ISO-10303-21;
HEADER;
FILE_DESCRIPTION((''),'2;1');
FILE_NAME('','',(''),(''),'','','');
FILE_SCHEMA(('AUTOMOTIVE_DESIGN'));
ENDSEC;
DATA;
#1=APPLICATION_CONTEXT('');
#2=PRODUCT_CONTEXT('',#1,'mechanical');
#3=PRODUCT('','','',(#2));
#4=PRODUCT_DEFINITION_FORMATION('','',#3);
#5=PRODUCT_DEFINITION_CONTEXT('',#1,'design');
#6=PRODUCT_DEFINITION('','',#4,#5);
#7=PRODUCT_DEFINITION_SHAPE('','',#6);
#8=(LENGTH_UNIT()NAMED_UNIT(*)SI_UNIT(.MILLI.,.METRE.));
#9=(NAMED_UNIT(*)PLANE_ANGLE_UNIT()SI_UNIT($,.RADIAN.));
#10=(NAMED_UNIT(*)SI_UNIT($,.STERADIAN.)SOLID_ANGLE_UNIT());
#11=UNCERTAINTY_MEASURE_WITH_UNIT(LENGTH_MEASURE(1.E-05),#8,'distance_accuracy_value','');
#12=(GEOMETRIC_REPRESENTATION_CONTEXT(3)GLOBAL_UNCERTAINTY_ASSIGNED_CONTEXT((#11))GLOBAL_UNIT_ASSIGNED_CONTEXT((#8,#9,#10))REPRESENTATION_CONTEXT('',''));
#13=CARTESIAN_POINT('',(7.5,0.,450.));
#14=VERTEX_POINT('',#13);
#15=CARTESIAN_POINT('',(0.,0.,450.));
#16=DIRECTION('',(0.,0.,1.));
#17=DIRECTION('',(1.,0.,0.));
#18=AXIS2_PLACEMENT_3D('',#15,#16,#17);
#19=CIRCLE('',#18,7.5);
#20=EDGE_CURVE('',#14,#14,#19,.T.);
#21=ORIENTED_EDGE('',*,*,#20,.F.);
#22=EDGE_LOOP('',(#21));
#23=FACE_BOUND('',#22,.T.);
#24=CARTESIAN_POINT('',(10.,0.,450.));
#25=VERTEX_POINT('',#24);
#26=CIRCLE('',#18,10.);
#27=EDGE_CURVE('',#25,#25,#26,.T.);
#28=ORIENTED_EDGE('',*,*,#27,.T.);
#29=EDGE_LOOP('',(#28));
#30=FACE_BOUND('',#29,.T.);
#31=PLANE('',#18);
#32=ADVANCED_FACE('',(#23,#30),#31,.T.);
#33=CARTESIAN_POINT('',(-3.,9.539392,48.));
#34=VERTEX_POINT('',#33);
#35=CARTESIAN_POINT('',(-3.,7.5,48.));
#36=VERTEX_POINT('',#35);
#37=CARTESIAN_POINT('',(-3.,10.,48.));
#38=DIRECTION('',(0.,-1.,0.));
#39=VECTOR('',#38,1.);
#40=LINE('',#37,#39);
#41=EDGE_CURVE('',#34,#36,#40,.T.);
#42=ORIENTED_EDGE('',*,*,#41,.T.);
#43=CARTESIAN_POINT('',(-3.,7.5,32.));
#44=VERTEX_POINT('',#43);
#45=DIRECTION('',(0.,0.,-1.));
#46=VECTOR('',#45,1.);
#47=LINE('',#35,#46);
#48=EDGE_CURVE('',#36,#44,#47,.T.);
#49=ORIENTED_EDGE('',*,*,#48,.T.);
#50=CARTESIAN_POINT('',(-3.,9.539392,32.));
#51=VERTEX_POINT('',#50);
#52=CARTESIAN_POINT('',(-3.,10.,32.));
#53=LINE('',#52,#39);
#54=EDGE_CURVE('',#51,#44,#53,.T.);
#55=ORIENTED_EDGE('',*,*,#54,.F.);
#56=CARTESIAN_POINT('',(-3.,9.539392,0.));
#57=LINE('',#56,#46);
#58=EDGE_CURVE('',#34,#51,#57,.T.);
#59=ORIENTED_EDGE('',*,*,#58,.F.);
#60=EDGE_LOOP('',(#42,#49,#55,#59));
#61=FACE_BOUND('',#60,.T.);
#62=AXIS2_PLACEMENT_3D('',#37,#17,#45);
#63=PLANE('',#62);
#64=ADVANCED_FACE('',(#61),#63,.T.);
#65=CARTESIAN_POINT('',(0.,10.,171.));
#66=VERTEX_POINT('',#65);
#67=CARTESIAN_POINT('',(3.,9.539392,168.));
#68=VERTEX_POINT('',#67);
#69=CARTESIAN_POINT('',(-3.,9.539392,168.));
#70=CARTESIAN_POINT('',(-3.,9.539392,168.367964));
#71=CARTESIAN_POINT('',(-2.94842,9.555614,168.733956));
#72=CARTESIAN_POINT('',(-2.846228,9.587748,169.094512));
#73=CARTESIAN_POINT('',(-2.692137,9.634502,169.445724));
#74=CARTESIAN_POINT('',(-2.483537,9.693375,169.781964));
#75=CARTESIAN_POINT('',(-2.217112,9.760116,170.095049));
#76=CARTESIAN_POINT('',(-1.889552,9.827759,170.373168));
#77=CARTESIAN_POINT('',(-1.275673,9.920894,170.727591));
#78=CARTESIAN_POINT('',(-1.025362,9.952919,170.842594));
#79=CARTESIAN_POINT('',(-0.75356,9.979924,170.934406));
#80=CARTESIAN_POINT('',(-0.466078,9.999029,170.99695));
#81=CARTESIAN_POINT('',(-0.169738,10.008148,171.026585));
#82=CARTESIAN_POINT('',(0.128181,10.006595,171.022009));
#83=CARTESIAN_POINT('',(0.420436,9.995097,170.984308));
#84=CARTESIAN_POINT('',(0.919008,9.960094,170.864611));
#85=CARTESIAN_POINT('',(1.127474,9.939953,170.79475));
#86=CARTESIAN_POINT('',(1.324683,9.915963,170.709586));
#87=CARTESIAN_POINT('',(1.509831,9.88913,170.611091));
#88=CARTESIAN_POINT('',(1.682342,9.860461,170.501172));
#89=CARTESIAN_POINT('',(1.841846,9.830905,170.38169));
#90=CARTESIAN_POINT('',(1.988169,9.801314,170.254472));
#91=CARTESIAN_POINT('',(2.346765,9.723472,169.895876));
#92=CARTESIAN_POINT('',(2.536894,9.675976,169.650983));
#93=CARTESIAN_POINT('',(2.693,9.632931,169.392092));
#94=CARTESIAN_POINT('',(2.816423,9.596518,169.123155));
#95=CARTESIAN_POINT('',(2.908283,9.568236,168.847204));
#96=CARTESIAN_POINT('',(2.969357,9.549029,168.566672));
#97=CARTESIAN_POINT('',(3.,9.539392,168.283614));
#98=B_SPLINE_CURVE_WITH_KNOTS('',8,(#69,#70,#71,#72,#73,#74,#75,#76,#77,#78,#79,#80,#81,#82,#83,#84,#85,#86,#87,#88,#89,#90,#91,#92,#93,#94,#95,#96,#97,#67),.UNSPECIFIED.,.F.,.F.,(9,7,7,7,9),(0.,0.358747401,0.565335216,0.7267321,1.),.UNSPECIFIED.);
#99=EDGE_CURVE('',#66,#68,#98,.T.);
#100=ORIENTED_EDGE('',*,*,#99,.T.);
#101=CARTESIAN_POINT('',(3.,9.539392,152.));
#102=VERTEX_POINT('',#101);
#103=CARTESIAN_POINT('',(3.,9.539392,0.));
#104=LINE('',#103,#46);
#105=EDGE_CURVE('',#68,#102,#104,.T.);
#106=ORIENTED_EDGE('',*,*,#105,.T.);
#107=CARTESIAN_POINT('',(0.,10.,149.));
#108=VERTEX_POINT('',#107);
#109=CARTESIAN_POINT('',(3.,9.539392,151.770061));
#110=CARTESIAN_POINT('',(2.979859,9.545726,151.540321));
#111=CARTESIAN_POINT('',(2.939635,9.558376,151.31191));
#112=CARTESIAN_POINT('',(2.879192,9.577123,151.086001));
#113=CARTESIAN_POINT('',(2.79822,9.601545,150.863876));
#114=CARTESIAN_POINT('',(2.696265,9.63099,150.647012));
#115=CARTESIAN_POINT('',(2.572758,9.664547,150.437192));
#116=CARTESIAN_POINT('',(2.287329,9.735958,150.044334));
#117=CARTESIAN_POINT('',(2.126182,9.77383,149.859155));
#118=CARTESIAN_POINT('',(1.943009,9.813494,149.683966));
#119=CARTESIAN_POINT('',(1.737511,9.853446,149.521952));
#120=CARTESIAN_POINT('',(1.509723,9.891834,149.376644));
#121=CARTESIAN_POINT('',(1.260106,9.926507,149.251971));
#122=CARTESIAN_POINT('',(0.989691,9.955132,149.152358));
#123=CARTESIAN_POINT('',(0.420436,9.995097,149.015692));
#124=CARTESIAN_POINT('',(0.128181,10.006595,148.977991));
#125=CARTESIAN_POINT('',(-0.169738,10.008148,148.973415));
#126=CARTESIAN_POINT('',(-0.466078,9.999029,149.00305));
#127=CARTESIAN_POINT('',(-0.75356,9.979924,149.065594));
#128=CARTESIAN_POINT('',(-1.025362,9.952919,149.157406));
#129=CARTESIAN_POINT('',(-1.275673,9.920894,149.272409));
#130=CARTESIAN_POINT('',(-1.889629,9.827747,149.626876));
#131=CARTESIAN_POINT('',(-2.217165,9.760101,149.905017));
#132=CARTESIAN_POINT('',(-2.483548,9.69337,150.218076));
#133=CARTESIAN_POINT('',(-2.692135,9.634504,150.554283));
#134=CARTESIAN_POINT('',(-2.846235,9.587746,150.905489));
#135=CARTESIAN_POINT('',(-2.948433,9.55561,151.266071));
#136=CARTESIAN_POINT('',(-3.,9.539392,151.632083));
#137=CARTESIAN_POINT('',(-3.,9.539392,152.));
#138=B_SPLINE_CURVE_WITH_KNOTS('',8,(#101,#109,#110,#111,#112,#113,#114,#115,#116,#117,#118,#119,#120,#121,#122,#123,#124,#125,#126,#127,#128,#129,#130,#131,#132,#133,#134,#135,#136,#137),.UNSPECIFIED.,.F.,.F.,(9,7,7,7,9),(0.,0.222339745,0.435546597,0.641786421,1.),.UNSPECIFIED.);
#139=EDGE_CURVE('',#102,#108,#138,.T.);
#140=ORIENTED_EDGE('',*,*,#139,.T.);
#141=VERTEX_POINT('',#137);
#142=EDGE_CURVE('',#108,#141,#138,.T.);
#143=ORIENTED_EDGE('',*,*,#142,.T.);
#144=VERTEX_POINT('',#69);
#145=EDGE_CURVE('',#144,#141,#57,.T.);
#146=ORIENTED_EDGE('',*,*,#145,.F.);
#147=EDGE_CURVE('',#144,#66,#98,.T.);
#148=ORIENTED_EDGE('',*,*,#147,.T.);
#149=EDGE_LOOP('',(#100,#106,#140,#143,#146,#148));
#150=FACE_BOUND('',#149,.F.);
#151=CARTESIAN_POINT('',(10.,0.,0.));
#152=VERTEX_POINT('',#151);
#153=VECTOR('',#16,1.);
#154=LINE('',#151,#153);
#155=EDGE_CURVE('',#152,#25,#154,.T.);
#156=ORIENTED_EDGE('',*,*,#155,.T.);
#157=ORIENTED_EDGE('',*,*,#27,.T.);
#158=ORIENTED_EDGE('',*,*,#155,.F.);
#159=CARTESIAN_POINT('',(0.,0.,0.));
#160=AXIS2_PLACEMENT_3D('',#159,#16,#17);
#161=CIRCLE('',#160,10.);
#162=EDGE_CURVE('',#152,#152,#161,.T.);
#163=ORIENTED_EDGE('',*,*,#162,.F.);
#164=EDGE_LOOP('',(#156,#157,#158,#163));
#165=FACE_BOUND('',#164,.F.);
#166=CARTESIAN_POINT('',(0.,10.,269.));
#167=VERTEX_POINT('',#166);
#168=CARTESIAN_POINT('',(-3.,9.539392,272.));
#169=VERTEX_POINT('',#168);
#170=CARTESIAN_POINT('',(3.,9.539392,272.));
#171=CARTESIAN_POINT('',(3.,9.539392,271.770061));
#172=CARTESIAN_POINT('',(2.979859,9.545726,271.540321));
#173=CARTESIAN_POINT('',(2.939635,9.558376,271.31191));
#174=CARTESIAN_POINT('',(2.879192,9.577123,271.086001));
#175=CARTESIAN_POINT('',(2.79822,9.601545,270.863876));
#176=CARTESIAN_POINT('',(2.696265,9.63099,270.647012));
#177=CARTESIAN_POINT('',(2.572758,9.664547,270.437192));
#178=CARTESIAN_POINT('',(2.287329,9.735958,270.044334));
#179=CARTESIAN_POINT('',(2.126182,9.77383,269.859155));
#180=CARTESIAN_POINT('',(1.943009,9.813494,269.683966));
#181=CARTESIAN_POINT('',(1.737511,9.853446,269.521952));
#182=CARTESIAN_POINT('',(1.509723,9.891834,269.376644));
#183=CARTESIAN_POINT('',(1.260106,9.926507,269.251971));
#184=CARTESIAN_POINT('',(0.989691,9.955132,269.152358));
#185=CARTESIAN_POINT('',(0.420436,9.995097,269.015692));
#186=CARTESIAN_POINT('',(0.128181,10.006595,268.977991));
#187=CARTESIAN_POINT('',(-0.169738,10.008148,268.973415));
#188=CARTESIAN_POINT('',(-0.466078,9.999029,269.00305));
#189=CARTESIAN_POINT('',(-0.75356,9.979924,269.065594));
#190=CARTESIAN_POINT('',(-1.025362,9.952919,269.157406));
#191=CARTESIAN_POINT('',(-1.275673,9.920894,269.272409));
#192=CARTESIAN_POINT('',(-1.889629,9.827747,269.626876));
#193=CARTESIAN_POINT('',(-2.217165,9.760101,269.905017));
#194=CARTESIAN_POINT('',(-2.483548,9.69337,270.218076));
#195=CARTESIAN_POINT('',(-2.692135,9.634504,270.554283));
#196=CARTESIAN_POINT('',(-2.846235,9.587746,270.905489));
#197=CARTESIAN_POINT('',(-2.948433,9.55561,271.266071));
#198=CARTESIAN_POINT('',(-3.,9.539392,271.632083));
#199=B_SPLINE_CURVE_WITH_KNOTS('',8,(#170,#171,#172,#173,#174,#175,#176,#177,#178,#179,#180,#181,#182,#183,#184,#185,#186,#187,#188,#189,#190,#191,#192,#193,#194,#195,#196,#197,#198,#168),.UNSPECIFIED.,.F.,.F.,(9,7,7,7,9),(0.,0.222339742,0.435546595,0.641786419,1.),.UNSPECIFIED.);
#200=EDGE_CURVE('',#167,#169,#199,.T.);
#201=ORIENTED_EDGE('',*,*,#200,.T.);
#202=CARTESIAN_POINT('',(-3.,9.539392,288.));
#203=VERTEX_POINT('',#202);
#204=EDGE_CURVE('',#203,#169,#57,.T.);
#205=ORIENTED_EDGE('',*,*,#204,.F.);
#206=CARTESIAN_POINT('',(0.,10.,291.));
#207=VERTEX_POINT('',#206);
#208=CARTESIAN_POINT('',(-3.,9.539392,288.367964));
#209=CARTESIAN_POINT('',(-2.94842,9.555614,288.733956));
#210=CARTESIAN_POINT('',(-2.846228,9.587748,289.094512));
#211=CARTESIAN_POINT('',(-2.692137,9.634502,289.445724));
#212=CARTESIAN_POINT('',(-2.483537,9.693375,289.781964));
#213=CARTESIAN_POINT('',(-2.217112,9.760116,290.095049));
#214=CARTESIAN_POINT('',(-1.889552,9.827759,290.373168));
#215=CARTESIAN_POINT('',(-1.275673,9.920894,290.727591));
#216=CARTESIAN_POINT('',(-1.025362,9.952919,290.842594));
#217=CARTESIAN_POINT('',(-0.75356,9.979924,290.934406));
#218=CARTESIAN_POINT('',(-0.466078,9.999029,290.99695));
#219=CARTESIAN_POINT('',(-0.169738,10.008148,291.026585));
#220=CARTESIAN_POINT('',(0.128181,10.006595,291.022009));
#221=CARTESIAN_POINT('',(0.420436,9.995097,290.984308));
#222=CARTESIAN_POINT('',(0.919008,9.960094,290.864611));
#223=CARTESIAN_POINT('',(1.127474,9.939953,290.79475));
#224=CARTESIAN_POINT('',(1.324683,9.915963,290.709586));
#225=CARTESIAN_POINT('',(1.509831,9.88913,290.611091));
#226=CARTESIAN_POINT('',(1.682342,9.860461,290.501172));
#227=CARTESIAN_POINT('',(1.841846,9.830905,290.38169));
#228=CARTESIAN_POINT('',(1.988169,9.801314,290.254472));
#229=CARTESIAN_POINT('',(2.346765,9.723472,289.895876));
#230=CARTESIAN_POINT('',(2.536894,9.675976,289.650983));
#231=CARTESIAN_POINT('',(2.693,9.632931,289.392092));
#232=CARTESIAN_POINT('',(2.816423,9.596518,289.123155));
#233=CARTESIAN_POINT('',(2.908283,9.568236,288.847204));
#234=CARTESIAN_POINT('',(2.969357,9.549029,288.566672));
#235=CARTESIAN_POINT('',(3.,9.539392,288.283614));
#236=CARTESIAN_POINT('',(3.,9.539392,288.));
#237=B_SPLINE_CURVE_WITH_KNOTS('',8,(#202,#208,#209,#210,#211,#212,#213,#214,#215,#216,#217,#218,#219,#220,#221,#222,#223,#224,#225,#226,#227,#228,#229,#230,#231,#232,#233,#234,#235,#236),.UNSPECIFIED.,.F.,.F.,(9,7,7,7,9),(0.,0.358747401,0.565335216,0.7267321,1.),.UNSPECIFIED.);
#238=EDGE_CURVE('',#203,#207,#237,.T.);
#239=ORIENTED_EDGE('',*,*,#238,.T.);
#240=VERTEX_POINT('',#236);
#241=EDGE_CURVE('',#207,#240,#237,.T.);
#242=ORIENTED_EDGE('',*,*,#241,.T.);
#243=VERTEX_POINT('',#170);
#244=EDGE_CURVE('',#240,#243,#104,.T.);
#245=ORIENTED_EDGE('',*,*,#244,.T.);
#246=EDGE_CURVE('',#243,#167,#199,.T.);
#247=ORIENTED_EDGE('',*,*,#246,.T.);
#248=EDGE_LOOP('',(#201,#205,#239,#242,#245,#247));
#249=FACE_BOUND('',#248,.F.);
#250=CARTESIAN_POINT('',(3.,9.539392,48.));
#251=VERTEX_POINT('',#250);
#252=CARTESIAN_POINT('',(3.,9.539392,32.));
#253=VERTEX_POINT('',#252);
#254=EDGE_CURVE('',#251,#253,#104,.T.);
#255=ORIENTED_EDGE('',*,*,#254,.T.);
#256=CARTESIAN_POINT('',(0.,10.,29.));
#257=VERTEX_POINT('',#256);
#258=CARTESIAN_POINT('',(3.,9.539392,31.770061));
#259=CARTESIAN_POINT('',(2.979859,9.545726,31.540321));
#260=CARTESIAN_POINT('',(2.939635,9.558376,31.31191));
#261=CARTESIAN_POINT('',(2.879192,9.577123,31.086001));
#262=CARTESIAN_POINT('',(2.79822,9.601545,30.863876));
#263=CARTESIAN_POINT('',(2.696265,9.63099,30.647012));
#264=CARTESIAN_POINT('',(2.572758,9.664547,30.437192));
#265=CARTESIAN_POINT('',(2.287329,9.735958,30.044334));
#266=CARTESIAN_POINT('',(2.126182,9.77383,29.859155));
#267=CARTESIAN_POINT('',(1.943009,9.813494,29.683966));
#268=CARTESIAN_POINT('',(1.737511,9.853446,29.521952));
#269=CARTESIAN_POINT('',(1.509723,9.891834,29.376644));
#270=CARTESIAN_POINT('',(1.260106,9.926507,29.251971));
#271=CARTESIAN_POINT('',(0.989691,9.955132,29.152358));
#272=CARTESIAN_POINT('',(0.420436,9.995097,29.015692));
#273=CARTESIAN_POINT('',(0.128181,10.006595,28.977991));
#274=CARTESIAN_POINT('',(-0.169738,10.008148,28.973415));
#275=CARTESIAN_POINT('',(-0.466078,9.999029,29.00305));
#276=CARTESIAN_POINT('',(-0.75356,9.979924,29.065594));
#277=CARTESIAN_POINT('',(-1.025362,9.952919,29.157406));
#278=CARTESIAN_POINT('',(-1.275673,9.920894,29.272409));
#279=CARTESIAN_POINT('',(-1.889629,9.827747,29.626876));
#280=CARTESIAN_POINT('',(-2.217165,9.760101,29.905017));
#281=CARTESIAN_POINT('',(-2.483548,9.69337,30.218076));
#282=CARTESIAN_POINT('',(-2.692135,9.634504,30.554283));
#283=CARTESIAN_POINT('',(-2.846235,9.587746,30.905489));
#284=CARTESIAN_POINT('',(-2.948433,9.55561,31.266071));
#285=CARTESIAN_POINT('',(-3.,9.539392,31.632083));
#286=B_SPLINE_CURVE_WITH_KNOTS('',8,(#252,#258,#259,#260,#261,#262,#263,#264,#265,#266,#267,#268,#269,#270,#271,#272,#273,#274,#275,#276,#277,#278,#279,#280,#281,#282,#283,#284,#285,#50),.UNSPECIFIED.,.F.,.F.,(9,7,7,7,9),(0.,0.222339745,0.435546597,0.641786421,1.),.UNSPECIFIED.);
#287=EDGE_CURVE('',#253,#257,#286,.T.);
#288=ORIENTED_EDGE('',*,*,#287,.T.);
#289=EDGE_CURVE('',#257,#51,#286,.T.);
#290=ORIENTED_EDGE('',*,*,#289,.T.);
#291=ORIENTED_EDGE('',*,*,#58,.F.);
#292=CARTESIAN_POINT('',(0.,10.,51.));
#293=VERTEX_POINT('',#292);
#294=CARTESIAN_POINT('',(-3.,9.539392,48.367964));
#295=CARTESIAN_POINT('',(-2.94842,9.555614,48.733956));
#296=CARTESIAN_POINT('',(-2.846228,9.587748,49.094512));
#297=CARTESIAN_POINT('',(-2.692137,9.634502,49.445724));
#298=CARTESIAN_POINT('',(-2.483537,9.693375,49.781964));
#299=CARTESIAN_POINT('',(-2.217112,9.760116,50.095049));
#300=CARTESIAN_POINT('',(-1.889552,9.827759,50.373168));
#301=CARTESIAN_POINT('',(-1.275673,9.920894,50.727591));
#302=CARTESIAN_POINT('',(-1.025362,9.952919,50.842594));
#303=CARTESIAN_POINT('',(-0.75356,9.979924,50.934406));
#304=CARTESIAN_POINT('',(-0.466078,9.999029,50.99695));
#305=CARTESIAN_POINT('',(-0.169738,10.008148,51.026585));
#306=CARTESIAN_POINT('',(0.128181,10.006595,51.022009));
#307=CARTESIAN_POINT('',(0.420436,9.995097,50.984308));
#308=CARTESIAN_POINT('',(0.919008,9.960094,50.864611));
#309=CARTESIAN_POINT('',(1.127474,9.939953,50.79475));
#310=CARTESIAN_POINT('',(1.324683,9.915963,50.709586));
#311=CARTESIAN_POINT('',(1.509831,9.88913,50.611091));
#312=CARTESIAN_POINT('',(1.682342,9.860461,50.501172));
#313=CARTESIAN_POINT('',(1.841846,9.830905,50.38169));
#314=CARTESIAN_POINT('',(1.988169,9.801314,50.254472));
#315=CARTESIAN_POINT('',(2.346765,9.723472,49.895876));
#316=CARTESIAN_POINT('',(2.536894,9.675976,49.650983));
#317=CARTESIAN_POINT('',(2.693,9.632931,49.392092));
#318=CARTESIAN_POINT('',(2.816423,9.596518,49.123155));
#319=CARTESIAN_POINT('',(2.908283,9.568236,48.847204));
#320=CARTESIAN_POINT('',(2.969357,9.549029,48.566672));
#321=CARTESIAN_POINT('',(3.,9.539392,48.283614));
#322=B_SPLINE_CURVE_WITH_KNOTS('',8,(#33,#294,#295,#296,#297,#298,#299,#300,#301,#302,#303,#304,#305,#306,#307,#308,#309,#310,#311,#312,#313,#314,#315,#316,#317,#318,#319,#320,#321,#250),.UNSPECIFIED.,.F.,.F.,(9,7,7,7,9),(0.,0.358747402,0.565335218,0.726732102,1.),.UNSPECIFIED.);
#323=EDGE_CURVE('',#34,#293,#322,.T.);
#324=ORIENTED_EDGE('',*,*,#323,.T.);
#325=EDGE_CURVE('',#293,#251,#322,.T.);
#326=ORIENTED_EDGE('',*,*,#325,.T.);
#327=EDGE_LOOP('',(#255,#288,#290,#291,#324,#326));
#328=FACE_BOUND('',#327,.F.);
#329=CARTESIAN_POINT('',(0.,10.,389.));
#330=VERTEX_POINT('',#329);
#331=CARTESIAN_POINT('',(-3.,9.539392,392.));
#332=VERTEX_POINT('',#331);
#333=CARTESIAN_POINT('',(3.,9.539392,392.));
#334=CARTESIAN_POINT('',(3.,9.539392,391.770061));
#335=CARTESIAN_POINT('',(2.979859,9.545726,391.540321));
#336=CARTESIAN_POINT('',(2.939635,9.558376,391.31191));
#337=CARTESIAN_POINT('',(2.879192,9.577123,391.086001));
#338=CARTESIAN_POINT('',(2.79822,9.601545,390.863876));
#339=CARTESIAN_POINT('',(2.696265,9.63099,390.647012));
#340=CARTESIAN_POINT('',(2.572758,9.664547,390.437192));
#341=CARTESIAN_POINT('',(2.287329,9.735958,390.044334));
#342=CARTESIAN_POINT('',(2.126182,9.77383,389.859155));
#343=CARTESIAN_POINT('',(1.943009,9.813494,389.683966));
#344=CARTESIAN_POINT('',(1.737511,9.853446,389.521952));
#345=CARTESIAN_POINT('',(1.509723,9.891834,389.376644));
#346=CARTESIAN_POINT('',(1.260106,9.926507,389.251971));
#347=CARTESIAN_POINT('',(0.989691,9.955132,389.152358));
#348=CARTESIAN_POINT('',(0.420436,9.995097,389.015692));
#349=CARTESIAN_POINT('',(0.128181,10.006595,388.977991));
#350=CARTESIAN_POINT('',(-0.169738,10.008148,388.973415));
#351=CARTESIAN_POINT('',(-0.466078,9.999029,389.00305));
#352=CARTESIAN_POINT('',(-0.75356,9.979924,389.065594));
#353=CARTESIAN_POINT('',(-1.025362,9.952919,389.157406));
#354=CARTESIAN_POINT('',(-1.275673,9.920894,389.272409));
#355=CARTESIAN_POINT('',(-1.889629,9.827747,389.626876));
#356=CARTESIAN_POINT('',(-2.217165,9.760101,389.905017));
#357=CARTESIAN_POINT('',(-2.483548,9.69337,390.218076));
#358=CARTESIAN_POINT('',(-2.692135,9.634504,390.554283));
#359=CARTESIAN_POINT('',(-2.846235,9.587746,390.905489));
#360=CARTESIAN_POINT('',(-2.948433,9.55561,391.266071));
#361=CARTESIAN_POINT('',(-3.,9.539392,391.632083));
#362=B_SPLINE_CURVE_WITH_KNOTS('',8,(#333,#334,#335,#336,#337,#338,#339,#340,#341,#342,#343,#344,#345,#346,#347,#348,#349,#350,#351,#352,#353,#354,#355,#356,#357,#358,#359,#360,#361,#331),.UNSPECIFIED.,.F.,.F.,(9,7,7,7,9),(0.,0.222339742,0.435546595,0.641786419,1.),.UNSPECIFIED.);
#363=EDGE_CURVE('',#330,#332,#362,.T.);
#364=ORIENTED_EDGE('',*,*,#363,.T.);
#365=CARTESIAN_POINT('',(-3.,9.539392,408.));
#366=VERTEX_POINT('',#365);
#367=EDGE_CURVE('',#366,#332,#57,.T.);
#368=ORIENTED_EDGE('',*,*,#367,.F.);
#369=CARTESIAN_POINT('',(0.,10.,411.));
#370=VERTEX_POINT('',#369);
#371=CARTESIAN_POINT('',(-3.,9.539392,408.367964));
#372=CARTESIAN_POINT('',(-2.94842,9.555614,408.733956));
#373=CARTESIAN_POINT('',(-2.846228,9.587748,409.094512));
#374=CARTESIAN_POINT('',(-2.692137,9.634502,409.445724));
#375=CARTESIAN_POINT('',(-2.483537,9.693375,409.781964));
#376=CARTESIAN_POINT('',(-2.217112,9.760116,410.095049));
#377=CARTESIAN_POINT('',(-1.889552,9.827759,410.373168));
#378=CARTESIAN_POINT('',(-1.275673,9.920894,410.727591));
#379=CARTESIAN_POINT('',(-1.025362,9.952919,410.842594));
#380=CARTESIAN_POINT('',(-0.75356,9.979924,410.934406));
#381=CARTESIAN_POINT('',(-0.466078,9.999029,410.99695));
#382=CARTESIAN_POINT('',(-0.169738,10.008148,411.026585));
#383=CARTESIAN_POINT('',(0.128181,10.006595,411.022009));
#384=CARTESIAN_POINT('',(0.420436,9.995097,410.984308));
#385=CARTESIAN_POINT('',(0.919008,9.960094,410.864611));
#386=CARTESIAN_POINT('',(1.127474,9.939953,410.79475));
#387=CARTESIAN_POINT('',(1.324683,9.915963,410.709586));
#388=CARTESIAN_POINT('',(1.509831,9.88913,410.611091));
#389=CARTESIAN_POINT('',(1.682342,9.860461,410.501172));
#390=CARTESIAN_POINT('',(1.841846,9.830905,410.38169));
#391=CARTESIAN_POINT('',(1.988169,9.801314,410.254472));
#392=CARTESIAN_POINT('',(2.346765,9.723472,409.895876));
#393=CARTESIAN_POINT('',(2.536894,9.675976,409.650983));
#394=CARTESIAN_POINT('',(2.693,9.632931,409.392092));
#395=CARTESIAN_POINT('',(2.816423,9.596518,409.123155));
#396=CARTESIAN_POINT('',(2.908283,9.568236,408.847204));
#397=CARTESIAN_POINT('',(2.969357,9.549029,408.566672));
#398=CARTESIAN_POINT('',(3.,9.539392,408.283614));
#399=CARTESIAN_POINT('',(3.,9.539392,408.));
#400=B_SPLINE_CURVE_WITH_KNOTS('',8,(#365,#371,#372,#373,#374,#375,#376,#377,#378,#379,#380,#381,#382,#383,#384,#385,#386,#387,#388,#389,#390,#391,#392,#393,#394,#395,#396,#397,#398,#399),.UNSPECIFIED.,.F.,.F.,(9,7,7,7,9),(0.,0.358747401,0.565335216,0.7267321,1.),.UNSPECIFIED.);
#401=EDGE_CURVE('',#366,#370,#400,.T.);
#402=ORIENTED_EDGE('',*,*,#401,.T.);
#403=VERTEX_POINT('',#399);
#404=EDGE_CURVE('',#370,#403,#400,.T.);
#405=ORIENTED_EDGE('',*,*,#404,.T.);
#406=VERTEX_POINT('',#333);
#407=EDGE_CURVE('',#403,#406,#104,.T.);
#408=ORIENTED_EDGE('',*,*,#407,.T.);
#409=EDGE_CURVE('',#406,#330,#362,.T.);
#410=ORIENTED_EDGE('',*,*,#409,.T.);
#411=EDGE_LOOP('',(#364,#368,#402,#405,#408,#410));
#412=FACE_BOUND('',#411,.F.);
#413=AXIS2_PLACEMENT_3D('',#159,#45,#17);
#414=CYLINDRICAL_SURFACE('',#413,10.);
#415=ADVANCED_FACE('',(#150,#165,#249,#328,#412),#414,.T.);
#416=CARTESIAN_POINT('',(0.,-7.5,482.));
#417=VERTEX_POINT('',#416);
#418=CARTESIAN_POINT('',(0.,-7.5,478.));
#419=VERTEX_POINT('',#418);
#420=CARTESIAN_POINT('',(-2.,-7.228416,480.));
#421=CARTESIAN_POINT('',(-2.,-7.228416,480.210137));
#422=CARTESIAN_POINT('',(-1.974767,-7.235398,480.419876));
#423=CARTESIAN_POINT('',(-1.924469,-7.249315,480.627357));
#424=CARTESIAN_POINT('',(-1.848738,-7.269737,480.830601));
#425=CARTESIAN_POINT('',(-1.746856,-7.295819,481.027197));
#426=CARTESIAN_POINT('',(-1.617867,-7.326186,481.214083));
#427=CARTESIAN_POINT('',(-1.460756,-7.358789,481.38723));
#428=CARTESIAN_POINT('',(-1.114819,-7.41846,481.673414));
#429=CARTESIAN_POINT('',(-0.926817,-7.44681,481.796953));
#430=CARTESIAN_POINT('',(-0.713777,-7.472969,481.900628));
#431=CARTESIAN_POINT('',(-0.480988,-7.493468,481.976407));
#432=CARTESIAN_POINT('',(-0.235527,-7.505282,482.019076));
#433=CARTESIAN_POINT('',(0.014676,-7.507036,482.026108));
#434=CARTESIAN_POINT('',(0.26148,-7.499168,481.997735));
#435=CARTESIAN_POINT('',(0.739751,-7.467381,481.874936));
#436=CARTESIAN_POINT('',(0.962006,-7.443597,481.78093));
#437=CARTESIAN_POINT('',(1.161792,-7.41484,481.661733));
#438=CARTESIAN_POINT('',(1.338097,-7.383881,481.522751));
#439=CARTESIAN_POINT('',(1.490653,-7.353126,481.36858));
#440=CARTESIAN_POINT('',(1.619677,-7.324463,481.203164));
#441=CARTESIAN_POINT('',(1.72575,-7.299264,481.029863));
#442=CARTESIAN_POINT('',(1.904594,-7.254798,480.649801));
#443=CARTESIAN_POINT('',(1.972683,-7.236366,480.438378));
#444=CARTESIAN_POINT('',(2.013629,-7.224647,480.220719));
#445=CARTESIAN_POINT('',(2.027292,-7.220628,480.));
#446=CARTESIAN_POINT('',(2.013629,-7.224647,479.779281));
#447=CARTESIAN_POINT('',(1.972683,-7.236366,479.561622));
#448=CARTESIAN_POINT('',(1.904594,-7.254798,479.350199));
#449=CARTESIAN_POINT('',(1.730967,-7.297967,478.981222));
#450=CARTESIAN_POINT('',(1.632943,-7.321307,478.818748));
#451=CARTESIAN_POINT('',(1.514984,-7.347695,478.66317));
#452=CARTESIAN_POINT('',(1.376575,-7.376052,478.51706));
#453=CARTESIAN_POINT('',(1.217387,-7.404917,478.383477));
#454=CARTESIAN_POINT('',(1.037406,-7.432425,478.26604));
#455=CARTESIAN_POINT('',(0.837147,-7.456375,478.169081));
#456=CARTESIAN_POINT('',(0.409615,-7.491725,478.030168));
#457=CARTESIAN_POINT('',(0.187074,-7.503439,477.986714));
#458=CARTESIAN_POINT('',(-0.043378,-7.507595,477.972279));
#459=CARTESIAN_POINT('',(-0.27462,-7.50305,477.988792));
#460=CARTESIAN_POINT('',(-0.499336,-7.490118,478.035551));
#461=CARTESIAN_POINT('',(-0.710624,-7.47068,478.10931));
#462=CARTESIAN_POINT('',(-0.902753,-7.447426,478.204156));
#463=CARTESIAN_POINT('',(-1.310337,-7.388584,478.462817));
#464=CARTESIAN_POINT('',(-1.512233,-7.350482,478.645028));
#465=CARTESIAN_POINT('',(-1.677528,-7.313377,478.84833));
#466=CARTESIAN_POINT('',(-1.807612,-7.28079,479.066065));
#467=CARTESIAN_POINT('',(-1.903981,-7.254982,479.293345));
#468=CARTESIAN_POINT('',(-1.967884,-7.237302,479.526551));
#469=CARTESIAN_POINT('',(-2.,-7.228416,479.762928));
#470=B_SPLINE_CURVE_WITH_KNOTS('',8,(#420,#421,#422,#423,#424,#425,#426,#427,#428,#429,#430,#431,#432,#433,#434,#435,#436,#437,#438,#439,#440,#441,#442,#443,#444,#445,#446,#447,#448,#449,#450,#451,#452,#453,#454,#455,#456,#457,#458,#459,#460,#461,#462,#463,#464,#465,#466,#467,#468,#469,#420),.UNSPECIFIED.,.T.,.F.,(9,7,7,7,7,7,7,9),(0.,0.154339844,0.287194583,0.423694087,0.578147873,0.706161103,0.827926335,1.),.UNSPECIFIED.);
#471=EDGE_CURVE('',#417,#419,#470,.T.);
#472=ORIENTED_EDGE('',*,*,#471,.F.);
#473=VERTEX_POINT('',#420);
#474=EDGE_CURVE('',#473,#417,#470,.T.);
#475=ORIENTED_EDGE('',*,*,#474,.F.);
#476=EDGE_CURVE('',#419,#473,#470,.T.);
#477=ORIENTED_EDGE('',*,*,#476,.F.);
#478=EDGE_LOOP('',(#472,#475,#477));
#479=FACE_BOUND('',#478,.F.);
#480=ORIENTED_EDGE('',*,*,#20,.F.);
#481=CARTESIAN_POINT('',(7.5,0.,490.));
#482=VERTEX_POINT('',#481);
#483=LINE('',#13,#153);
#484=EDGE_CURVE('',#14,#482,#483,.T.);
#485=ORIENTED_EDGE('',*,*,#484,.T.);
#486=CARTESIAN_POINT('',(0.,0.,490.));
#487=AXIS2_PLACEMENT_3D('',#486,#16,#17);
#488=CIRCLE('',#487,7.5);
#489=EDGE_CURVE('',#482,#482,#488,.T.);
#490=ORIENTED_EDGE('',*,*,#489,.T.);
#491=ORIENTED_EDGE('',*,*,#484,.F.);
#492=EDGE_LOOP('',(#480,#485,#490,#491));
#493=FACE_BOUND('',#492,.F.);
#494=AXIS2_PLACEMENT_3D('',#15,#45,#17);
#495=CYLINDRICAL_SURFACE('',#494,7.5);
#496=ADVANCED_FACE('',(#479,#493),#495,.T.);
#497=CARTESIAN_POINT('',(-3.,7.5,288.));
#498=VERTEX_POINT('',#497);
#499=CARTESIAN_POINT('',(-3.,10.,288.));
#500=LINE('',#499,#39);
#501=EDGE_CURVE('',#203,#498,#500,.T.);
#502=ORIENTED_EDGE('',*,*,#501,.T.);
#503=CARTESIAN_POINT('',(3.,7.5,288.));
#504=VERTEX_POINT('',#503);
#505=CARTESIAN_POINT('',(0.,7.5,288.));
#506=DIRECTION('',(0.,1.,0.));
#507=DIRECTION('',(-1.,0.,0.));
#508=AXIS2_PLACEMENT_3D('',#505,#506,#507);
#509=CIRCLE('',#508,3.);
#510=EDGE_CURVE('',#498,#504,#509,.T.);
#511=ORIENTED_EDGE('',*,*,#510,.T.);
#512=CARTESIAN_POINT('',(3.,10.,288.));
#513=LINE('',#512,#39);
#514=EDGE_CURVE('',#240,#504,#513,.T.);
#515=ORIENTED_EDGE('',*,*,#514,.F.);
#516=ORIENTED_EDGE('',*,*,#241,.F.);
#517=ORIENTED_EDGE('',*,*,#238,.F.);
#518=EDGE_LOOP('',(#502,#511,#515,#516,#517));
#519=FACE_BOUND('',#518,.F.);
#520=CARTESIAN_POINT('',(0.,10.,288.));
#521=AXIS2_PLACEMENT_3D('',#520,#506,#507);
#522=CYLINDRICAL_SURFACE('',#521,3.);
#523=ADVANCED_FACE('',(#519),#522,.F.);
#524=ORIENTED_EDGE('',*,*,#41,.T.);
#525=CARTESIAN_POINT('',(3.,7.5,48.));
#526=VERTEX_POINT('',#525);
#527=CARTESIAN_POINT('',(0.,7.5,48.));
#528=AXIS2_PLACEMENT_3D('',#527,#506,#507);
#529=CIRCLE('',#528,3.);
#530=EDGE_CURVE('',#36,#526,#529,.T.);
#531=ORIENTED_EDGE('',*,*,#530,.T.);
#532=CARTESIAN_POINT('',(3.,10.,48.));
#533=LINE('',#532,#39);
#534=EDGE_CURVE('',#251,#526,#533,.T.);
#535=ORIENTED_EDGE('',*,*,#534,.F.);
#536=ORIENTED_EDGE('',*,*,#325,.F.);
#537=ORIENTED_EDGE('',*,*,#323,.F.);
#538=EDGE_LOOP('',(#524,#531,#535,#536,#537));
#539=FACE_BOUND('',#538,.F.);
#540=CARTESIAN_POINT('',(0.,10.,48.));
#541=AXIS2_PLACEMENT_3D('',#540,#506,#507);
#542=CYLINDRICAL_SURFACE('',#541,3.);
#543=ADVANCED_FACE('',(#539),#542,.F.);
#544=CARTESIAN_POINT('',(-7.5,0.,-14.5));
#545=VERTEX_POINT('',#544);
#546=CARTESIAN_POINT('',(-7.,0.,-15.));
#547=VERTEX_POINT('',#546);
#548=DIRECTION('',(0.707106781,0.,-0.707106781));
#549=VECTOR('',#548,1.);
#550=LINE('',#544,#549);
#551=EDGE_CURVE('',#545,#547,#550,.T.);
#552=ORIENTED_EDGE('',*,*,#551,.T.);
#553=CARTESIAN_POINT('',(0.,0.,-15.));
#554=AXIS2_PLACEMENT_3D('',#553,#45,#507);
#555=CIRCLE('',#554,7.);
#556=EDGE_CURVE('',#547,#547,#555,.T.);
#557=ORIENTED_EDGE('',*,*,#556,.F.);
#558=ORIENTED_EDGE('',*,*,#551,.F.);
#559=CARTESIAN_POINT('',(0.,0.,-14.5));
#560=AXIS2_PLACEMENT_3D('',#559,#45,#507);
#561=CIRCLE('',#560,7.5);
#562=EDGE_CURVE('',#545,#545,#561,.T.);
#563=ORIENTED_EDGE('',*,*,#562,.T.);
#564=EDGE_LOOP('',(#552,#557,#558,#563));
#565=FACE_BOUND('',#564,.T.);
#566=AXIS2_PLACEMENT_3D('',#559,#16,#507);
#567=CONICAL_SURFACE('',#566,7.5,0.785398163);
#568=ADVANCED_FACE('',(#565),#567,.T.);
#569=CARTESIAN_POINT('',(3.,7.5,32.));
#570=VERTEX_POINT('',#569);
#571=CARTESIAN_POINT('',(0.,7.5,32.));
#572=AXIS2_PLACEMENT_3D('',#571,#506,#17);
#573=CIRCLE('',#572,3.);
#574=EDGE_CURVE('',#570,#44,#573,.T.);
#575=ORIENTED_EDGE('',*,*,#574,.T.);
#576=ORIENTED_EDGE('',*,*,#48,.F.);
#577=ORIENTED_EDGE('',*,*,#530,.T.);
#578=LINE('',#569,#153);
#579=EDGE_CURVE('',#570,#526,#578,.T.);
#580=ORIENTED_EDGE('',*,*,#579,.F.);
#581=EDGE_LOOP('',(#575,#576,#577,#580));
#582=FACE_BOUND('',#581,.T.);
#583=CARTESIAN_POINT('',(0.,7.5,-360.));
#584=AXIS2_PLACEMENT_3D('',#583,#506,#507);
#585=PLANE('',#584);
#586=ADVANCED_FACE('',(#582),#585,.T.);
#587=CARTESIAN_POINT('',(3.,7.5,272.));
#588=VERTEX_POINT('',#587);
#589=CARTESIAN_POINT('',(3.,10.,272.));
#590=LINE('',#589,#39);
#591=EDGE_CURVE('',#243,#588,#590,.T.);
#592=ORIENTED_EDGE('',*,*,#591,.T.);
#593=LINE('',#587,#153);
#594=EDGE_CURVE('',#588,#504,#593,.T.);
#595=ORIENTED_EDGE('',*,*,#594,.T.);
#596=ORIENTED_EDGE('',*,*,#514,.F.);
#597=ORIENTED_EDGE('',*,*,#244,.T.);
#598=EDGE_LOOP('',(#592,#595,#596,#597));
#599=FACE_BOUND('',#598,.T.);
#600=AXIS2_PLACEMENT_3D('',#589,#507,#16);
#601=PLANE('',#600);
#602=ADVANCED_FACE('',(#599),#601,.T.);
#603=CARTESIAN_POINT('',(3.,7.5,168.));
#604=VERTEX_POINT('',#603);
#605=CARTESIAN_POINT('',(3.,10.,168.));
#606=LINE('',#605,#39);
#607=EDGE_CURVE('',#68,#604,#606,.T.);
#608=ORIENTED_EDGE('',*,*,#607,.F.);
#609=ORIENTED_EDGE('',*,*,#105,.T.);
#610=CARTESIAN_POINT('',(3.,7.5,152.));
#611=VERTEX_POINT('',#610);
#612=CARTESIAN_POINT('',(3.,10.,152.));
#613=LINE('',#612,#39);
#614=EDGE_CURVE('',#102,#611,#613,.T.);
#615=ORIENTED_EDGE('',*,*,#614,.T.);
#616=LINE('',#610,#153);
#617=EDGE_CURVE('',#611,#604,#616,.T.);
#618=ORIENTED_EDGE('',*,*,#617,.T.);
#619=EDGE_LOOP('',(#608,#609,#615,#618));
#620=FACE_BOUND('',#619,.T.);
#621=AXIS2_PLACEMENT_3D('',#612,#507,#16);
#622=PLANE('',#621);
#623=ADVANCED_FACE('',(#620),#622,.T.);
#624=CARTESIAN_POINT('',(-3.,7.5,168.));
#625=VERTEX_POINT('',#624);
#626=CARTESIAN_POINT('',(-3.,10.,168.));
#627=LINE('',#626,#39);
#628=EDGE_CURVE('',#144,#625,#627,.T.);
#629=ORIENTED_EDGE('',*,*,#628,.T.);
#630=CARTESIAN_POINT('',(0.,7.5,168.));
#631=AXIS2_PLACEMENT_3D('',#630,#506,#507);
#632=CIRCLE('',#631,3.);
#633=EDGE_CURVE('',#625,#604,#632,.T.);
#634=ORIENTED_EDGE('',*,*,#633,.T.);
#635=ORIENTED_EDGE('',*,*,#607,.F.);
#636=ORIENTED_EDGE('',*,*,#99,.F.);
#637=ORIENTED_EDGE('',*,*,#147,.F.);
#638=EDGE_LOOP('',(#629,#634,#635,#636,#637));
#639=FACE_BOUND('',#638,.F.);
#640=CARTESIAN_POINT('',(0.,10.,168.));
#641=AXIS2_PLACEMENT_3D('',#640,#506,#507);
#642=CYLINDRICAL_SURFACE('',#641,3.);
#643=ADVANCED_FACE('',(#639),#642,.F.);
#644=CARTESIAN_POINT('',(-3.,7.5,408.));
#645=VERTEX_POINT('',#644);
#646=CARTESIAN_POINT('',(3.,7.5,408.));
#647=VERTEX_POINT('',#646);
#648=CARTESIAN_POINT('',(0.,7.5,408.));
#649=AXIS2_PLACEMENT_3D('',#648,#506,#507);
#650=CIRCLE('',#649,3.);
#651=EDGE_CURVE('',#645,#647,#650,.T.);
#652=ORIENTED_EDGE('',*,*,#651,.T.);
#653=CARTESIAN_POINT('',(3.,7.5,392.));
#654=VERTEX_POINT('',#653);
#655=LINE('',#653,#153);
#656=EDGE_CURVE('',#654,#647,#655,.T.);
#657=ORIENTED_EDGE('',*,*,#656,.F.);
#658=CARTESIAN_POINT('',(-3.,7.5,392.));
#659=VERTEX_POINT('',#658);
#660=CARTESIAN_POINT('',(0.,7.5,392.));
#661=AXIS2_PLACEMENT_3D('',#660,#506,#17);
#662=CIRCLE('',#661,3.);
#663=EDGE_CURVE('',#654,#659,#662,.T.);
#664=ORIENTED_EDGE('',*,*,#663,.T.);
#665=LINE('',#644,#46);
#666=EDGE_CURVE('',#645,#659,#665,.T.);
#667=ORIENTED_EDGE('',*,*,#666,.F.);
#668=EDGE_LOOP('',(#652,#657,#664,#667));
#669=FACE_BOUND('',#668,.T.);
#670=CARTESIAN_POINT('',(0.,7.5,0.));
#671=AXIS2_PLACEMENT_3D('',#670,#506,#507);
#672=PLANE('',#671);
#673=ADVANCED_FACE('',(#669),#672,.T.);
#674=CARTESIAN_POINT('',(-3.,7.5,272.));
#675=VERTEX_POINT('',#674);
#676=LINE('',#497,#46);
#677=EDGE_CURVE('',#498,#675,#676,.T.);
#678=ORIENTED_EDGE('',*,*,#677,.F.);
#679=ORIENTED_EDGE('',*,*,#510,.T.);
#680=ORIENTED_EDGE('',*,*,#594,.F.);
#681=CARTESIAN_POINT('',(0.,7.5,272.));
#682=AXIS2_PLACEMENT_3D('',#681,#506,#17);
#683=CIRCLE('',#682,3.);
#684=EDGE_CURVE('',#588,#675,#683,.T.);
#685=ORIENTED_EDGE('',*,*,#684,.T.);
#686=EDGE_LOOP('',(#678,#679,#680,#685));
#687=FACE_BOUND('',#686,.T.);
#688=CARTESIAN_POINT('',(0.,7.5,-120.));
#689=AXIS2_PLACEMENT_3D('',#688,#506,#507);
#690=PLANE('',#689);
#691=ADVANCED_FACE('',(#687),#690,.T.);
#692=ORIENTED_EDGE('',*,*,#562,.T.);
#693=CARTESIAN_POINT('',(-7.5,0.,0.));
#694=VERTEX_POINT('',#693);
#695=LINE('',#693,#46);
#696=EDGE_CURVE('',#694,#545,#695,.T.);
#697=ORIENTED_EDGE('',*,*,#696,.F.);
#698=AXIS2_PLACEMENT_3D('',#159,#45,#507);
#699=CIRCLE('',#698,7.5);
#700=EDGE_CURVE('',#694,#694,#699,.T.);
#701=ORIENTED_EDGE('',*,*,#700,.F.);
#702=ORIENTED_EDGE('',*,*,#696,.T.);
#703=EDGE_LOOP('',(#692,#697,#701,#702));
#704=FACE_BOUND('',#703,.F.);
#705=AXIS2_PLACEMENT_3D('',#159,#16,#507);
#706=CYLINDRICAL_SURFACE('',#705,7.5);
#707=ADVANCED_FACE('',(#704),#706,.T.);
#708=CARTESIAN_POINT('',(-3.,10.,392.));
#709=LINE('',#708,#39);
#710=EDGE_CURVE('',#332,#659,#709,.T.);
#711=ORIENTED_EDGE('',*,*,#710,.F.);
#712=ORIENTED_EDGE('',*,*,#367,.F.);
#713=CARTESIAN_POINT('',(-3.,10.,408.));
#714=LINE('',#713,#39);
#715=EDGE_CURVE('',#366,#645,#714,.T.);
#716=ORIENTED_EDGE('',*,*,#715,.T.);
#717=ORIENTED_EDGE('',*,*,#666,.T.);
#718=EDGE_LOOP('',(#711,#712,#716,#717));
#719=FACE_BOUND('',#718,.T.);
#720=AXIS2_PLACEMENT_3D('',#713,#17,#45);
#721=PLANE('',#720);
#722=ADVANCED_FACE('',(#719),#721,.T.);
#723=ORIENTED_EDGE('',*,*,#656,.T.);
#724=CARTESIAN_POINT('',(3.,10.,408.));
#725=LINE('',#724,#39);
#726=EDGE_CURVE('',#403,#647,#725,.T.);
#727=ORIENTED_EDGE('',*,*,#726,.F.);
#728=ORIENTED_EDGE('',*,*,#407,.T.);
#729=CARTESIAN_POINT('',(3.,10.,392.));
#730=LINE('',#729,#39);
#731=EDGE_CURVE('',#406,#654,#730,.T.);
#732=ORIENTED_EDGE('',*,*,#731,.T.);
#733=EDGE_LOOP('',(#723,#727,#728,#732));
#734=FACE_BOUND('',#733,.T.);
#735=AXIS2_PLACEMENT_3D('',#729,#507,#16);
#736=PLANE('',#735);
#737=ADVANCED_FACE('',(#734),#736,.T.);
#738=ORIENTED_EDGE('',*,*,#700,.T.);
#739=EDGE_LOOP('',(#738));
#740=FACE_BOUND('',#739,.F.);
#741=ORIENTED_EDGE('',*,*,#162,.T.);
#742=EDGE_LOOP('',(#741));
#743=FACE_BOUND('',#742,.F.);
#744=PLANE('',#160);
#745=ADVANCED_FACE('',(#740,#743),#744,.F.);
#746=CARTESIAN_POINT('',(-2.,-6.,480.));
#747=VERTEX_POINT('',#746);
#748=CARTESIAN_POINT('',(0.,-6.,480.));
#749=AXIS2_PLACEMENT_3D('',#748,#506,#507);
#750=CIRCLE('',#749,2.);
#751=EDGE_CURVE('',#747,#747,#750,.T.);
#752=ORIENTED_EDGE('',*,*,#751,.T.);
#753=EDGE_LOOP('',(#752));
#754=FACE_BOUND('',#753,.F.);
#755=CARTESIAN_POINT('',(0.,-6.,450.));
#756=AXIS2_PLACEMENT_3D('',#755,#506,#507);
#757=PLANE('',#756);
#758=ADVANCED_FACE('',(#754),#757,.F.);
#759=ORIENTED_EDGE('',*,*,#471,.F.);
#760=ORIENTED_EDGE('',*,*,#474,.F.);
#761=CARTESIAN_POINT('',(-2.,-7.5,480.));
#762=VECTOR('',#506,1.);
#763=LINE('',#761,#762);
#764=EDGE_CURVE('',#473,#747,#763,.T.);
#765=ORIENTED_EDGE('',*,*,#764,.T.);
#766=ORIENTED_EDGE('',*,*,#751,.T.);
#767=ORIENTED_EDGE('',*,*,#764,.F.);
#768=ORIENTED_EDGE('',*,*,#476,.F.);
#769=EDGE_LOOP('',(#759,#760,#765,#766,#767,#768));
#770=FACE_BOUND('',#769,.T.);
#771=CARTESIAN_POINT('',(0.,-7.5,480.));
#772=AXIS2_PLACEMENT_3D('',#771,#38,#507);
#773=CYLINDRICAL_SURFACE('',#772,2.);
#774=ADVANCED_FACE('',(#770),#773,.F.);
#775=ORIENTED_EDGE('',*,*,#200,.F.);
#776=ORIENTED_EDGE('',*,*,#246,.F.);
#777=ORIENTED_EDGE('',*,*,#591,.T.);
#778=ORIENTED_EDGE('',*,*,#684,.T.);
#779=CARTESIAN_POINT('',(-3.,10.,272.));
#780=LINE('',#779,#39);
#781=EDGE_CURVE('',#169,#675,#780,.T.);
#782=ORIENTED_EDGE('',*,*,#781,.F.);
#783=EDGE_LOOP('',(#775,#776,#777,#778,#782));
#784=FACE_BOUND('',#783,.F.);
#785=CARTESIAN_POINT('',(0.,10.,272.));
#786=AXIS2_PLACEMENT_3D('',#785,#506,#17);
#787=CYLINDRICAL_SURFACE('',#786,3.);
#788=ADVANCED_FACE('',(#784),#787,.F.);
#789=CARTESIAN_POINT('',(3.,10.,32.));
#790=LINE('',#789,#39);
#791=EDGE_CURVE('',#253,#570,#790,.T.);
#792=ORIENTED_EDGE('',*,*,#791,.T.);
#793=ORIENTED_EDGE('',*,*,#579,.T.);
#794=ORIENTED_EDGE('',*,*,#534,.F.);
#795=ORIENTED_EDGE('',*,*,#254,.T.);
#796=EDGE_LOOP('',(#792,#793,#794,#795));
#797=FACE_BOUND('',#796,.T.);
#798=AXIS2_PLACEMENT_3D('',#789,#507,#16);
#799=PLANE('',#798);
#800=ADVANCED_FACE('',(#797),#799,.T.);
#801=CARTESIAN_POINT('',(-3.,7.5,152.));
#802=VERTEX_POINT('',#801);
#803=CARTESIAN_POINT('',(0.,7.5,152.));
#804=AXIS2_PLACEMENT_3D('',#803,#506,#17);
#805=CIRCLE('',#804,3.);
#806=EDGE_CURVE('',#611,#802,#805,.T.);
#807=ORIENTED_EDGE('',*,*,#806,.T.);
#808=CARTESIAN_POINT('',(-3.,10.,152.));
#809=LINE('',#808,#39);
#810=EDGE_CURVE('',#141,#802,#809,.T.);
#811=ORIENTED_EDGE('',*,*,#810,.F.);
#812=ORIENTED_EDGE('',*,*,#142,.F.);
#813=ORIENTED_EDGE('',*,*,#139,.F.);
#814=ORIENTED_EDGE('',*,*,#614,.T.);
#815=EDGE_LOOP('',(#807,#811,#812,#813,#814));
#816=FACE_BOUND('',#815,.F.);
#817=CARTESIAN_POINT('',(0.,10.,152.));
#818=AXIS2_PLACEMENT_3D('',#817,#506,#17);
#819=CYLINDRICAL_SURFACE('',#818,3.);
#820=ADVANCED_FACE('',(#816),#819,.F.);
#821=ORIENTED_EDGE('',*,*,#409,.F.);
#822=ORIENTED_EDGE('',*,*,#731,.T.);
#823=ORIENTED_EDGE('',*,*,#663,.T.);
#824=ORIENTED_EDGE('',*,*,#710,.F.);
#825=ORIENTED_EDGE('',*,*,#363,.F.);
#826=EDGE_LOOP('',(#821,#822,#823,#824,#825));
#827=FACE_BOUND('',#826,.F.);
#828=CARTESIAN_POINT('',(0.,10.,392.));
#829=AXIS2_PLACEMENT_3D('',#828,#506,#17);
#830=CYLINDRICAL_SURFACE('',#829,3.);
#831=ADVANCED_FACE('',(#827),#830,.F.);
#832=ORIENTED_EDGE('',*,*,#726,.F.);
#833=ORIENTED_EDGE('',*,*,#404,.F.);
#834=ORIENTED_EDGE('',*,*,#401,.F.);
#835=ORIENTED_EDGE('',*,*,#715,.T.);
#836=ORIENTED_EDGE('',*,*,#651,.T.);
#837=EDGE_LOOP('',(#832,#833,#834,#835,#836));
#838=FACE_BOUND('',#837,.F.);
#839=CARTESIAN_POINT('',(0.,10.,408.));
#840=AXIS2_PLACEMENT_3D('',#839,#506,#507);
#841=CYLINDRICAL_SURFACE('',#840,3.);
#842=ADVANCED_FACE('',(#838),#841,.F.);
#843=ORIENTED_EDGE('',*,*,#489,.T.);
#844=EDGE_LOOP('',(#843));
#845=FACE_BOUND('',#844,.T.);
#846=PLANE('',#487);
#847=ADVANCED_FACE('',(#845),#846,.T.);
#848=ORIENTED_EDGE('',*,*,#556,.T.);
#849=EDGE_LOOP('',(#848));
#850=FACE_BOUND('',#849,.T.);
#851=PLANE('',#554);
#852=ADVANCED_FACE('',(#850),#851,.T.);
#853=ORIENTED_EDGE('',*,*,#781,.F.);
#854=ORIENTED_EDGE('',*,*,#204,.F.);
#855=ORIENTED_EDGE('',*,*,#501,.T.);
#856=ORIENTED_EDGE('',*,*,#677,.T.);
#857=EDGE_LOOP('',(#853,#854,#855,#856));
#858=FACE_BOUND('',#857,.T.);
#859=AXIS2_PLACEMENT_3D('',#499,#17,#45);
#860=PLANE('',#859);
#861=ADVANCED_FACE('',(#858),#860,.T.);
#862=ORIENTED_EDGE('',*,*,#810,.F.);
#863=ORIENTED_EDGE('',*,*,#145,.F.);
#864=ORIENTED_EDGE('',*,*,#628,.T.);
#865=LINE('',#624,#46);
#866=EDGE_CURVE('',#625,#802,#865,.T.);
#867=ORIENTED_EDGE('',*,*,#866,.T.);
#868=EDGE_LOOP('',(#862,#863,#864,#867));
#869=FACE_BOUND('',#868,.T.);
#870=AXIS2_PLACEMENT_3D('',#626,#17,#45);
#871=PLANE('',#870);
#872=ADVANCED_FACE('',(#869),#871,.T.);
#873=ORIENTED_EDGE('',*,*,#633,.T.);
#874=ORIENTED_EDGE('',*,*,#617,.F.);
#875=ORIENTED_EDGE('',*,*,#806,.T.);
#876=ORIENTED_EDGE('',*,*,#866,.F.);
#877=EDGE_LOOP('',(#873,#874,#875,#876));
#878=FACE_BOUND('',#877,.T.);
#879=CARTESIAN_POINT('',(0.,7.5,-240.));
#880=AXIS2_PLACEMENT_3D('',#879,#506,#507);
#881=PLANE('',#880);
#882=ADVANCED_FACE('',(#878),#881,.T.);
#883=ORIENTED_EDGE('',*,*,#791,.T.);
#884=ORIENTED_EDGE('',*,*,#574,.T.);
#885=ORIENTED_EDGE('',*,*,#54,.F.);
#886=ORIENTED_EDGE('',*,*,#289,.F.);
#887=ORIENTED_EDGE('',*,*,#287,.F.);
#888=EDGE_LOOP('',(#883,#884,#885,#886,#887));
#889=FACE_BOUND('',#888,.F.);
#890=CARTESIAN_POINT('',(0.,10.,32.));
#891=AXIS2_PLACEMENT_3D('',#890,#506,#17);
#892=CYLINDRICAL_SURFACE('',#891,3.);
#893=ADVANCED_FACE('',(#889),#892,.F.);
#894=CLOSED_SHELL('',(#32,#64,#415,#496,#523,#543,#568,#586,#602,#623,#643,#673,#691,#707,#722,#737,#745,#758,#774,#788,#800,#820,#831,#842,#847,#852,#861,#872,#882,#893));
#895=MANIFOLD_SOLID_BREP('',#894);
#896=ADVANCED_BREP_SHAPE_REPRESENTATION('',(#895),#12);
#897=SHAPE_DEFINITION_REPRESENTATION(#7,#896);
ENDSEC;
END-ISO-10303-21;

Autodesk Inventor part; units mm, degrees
ref_plane "YZ Plane" through (0, 0, 0) normal (1, 0, 0) x (0, 1, 0)
sketch "草图1" plane through (0, 0, 0) normal (0, 0, 1) x (1, 0, 0)
  circle A0 centre (0, 0) radius 10
  dimension "d0" = 20
extrude "拉伸1" add sketch "草图1" along normal blind 450
sketch "草图2" plane through (0, 0, 450) normal (0, 0, 1) x (1, 0, 0)
  circle A0 centre (0, 0) radius 7.5
  dimension "d3" = 15
extrude "拉伸2" add sketch "草图2" along normal blind 40
sketch "草图3" plane through (0, 0, 0) normal (0, 0, -1) x (-1, 0, 0)
  circle A0 centre (0, 0) radius 7.5
  dimension "d6" = 15
extrude "拉伸3" add sketch "草图3" along normal blind 15
chamfer "倒角1" distance 0.5 angle 45 1 edges at (7.5, 0, -15)
ref_plane "工作平面1" through (0, 10, 0) normal (0, 1, 0) x (-1, 0, 0)
sketch "草图4" plane through (0, 10, 0) normal (0, 1, 0) x (-1, 0, 0)
  line L0 (3, 392) -> (-3, 392)
  line L1 (-3, 392) -> (-3, 408)
  line L2 (-3, 408) -> (3, 408)
  line L3 (3, 408) -> (3, 392)
  arc A0 (-3, 392) -> (3, 392) centre (0, 392) ccw
  arc A1 (3, 408) -> (-3, 408) centre (0, 408) ccw
  line L4 (10, 450) -> (-10, 450) projected
  point P0 (0, 0)
  dimension "d12" = 6
  dimension "d13" = 16
  dimension "d14" = 0
  dimension "d15" = 42
extrude "拉伸4" cut sketch "草图4" against normal blind 2.5
pattern_linear "矩形阵列1" count 4 spacing 120 along (0, 0, -1) of "拉伸4"
ref_plane "工作平面2" through (0, -7.5, 450) normal (0, 1, 0) x (-1, 0, 0)
sketch "草图5" plane through (0, -7.5, 450) normal (0, 1, 0) x (-1, 0, 0)
  circle A0 centre (0, 30) radius 2
  line L0 (7.5, 40) -> (-7.5, 40) projected
  line L1 (0, -450) -> (0, -436.617)
  dimension "d21" = 4
  dimension "d22" = 10
  dimension "d23" = 13.383
extrude "拉伸5" cut sketch "草图5" along normal blind 1.5
properties part number "砂轮轴"
